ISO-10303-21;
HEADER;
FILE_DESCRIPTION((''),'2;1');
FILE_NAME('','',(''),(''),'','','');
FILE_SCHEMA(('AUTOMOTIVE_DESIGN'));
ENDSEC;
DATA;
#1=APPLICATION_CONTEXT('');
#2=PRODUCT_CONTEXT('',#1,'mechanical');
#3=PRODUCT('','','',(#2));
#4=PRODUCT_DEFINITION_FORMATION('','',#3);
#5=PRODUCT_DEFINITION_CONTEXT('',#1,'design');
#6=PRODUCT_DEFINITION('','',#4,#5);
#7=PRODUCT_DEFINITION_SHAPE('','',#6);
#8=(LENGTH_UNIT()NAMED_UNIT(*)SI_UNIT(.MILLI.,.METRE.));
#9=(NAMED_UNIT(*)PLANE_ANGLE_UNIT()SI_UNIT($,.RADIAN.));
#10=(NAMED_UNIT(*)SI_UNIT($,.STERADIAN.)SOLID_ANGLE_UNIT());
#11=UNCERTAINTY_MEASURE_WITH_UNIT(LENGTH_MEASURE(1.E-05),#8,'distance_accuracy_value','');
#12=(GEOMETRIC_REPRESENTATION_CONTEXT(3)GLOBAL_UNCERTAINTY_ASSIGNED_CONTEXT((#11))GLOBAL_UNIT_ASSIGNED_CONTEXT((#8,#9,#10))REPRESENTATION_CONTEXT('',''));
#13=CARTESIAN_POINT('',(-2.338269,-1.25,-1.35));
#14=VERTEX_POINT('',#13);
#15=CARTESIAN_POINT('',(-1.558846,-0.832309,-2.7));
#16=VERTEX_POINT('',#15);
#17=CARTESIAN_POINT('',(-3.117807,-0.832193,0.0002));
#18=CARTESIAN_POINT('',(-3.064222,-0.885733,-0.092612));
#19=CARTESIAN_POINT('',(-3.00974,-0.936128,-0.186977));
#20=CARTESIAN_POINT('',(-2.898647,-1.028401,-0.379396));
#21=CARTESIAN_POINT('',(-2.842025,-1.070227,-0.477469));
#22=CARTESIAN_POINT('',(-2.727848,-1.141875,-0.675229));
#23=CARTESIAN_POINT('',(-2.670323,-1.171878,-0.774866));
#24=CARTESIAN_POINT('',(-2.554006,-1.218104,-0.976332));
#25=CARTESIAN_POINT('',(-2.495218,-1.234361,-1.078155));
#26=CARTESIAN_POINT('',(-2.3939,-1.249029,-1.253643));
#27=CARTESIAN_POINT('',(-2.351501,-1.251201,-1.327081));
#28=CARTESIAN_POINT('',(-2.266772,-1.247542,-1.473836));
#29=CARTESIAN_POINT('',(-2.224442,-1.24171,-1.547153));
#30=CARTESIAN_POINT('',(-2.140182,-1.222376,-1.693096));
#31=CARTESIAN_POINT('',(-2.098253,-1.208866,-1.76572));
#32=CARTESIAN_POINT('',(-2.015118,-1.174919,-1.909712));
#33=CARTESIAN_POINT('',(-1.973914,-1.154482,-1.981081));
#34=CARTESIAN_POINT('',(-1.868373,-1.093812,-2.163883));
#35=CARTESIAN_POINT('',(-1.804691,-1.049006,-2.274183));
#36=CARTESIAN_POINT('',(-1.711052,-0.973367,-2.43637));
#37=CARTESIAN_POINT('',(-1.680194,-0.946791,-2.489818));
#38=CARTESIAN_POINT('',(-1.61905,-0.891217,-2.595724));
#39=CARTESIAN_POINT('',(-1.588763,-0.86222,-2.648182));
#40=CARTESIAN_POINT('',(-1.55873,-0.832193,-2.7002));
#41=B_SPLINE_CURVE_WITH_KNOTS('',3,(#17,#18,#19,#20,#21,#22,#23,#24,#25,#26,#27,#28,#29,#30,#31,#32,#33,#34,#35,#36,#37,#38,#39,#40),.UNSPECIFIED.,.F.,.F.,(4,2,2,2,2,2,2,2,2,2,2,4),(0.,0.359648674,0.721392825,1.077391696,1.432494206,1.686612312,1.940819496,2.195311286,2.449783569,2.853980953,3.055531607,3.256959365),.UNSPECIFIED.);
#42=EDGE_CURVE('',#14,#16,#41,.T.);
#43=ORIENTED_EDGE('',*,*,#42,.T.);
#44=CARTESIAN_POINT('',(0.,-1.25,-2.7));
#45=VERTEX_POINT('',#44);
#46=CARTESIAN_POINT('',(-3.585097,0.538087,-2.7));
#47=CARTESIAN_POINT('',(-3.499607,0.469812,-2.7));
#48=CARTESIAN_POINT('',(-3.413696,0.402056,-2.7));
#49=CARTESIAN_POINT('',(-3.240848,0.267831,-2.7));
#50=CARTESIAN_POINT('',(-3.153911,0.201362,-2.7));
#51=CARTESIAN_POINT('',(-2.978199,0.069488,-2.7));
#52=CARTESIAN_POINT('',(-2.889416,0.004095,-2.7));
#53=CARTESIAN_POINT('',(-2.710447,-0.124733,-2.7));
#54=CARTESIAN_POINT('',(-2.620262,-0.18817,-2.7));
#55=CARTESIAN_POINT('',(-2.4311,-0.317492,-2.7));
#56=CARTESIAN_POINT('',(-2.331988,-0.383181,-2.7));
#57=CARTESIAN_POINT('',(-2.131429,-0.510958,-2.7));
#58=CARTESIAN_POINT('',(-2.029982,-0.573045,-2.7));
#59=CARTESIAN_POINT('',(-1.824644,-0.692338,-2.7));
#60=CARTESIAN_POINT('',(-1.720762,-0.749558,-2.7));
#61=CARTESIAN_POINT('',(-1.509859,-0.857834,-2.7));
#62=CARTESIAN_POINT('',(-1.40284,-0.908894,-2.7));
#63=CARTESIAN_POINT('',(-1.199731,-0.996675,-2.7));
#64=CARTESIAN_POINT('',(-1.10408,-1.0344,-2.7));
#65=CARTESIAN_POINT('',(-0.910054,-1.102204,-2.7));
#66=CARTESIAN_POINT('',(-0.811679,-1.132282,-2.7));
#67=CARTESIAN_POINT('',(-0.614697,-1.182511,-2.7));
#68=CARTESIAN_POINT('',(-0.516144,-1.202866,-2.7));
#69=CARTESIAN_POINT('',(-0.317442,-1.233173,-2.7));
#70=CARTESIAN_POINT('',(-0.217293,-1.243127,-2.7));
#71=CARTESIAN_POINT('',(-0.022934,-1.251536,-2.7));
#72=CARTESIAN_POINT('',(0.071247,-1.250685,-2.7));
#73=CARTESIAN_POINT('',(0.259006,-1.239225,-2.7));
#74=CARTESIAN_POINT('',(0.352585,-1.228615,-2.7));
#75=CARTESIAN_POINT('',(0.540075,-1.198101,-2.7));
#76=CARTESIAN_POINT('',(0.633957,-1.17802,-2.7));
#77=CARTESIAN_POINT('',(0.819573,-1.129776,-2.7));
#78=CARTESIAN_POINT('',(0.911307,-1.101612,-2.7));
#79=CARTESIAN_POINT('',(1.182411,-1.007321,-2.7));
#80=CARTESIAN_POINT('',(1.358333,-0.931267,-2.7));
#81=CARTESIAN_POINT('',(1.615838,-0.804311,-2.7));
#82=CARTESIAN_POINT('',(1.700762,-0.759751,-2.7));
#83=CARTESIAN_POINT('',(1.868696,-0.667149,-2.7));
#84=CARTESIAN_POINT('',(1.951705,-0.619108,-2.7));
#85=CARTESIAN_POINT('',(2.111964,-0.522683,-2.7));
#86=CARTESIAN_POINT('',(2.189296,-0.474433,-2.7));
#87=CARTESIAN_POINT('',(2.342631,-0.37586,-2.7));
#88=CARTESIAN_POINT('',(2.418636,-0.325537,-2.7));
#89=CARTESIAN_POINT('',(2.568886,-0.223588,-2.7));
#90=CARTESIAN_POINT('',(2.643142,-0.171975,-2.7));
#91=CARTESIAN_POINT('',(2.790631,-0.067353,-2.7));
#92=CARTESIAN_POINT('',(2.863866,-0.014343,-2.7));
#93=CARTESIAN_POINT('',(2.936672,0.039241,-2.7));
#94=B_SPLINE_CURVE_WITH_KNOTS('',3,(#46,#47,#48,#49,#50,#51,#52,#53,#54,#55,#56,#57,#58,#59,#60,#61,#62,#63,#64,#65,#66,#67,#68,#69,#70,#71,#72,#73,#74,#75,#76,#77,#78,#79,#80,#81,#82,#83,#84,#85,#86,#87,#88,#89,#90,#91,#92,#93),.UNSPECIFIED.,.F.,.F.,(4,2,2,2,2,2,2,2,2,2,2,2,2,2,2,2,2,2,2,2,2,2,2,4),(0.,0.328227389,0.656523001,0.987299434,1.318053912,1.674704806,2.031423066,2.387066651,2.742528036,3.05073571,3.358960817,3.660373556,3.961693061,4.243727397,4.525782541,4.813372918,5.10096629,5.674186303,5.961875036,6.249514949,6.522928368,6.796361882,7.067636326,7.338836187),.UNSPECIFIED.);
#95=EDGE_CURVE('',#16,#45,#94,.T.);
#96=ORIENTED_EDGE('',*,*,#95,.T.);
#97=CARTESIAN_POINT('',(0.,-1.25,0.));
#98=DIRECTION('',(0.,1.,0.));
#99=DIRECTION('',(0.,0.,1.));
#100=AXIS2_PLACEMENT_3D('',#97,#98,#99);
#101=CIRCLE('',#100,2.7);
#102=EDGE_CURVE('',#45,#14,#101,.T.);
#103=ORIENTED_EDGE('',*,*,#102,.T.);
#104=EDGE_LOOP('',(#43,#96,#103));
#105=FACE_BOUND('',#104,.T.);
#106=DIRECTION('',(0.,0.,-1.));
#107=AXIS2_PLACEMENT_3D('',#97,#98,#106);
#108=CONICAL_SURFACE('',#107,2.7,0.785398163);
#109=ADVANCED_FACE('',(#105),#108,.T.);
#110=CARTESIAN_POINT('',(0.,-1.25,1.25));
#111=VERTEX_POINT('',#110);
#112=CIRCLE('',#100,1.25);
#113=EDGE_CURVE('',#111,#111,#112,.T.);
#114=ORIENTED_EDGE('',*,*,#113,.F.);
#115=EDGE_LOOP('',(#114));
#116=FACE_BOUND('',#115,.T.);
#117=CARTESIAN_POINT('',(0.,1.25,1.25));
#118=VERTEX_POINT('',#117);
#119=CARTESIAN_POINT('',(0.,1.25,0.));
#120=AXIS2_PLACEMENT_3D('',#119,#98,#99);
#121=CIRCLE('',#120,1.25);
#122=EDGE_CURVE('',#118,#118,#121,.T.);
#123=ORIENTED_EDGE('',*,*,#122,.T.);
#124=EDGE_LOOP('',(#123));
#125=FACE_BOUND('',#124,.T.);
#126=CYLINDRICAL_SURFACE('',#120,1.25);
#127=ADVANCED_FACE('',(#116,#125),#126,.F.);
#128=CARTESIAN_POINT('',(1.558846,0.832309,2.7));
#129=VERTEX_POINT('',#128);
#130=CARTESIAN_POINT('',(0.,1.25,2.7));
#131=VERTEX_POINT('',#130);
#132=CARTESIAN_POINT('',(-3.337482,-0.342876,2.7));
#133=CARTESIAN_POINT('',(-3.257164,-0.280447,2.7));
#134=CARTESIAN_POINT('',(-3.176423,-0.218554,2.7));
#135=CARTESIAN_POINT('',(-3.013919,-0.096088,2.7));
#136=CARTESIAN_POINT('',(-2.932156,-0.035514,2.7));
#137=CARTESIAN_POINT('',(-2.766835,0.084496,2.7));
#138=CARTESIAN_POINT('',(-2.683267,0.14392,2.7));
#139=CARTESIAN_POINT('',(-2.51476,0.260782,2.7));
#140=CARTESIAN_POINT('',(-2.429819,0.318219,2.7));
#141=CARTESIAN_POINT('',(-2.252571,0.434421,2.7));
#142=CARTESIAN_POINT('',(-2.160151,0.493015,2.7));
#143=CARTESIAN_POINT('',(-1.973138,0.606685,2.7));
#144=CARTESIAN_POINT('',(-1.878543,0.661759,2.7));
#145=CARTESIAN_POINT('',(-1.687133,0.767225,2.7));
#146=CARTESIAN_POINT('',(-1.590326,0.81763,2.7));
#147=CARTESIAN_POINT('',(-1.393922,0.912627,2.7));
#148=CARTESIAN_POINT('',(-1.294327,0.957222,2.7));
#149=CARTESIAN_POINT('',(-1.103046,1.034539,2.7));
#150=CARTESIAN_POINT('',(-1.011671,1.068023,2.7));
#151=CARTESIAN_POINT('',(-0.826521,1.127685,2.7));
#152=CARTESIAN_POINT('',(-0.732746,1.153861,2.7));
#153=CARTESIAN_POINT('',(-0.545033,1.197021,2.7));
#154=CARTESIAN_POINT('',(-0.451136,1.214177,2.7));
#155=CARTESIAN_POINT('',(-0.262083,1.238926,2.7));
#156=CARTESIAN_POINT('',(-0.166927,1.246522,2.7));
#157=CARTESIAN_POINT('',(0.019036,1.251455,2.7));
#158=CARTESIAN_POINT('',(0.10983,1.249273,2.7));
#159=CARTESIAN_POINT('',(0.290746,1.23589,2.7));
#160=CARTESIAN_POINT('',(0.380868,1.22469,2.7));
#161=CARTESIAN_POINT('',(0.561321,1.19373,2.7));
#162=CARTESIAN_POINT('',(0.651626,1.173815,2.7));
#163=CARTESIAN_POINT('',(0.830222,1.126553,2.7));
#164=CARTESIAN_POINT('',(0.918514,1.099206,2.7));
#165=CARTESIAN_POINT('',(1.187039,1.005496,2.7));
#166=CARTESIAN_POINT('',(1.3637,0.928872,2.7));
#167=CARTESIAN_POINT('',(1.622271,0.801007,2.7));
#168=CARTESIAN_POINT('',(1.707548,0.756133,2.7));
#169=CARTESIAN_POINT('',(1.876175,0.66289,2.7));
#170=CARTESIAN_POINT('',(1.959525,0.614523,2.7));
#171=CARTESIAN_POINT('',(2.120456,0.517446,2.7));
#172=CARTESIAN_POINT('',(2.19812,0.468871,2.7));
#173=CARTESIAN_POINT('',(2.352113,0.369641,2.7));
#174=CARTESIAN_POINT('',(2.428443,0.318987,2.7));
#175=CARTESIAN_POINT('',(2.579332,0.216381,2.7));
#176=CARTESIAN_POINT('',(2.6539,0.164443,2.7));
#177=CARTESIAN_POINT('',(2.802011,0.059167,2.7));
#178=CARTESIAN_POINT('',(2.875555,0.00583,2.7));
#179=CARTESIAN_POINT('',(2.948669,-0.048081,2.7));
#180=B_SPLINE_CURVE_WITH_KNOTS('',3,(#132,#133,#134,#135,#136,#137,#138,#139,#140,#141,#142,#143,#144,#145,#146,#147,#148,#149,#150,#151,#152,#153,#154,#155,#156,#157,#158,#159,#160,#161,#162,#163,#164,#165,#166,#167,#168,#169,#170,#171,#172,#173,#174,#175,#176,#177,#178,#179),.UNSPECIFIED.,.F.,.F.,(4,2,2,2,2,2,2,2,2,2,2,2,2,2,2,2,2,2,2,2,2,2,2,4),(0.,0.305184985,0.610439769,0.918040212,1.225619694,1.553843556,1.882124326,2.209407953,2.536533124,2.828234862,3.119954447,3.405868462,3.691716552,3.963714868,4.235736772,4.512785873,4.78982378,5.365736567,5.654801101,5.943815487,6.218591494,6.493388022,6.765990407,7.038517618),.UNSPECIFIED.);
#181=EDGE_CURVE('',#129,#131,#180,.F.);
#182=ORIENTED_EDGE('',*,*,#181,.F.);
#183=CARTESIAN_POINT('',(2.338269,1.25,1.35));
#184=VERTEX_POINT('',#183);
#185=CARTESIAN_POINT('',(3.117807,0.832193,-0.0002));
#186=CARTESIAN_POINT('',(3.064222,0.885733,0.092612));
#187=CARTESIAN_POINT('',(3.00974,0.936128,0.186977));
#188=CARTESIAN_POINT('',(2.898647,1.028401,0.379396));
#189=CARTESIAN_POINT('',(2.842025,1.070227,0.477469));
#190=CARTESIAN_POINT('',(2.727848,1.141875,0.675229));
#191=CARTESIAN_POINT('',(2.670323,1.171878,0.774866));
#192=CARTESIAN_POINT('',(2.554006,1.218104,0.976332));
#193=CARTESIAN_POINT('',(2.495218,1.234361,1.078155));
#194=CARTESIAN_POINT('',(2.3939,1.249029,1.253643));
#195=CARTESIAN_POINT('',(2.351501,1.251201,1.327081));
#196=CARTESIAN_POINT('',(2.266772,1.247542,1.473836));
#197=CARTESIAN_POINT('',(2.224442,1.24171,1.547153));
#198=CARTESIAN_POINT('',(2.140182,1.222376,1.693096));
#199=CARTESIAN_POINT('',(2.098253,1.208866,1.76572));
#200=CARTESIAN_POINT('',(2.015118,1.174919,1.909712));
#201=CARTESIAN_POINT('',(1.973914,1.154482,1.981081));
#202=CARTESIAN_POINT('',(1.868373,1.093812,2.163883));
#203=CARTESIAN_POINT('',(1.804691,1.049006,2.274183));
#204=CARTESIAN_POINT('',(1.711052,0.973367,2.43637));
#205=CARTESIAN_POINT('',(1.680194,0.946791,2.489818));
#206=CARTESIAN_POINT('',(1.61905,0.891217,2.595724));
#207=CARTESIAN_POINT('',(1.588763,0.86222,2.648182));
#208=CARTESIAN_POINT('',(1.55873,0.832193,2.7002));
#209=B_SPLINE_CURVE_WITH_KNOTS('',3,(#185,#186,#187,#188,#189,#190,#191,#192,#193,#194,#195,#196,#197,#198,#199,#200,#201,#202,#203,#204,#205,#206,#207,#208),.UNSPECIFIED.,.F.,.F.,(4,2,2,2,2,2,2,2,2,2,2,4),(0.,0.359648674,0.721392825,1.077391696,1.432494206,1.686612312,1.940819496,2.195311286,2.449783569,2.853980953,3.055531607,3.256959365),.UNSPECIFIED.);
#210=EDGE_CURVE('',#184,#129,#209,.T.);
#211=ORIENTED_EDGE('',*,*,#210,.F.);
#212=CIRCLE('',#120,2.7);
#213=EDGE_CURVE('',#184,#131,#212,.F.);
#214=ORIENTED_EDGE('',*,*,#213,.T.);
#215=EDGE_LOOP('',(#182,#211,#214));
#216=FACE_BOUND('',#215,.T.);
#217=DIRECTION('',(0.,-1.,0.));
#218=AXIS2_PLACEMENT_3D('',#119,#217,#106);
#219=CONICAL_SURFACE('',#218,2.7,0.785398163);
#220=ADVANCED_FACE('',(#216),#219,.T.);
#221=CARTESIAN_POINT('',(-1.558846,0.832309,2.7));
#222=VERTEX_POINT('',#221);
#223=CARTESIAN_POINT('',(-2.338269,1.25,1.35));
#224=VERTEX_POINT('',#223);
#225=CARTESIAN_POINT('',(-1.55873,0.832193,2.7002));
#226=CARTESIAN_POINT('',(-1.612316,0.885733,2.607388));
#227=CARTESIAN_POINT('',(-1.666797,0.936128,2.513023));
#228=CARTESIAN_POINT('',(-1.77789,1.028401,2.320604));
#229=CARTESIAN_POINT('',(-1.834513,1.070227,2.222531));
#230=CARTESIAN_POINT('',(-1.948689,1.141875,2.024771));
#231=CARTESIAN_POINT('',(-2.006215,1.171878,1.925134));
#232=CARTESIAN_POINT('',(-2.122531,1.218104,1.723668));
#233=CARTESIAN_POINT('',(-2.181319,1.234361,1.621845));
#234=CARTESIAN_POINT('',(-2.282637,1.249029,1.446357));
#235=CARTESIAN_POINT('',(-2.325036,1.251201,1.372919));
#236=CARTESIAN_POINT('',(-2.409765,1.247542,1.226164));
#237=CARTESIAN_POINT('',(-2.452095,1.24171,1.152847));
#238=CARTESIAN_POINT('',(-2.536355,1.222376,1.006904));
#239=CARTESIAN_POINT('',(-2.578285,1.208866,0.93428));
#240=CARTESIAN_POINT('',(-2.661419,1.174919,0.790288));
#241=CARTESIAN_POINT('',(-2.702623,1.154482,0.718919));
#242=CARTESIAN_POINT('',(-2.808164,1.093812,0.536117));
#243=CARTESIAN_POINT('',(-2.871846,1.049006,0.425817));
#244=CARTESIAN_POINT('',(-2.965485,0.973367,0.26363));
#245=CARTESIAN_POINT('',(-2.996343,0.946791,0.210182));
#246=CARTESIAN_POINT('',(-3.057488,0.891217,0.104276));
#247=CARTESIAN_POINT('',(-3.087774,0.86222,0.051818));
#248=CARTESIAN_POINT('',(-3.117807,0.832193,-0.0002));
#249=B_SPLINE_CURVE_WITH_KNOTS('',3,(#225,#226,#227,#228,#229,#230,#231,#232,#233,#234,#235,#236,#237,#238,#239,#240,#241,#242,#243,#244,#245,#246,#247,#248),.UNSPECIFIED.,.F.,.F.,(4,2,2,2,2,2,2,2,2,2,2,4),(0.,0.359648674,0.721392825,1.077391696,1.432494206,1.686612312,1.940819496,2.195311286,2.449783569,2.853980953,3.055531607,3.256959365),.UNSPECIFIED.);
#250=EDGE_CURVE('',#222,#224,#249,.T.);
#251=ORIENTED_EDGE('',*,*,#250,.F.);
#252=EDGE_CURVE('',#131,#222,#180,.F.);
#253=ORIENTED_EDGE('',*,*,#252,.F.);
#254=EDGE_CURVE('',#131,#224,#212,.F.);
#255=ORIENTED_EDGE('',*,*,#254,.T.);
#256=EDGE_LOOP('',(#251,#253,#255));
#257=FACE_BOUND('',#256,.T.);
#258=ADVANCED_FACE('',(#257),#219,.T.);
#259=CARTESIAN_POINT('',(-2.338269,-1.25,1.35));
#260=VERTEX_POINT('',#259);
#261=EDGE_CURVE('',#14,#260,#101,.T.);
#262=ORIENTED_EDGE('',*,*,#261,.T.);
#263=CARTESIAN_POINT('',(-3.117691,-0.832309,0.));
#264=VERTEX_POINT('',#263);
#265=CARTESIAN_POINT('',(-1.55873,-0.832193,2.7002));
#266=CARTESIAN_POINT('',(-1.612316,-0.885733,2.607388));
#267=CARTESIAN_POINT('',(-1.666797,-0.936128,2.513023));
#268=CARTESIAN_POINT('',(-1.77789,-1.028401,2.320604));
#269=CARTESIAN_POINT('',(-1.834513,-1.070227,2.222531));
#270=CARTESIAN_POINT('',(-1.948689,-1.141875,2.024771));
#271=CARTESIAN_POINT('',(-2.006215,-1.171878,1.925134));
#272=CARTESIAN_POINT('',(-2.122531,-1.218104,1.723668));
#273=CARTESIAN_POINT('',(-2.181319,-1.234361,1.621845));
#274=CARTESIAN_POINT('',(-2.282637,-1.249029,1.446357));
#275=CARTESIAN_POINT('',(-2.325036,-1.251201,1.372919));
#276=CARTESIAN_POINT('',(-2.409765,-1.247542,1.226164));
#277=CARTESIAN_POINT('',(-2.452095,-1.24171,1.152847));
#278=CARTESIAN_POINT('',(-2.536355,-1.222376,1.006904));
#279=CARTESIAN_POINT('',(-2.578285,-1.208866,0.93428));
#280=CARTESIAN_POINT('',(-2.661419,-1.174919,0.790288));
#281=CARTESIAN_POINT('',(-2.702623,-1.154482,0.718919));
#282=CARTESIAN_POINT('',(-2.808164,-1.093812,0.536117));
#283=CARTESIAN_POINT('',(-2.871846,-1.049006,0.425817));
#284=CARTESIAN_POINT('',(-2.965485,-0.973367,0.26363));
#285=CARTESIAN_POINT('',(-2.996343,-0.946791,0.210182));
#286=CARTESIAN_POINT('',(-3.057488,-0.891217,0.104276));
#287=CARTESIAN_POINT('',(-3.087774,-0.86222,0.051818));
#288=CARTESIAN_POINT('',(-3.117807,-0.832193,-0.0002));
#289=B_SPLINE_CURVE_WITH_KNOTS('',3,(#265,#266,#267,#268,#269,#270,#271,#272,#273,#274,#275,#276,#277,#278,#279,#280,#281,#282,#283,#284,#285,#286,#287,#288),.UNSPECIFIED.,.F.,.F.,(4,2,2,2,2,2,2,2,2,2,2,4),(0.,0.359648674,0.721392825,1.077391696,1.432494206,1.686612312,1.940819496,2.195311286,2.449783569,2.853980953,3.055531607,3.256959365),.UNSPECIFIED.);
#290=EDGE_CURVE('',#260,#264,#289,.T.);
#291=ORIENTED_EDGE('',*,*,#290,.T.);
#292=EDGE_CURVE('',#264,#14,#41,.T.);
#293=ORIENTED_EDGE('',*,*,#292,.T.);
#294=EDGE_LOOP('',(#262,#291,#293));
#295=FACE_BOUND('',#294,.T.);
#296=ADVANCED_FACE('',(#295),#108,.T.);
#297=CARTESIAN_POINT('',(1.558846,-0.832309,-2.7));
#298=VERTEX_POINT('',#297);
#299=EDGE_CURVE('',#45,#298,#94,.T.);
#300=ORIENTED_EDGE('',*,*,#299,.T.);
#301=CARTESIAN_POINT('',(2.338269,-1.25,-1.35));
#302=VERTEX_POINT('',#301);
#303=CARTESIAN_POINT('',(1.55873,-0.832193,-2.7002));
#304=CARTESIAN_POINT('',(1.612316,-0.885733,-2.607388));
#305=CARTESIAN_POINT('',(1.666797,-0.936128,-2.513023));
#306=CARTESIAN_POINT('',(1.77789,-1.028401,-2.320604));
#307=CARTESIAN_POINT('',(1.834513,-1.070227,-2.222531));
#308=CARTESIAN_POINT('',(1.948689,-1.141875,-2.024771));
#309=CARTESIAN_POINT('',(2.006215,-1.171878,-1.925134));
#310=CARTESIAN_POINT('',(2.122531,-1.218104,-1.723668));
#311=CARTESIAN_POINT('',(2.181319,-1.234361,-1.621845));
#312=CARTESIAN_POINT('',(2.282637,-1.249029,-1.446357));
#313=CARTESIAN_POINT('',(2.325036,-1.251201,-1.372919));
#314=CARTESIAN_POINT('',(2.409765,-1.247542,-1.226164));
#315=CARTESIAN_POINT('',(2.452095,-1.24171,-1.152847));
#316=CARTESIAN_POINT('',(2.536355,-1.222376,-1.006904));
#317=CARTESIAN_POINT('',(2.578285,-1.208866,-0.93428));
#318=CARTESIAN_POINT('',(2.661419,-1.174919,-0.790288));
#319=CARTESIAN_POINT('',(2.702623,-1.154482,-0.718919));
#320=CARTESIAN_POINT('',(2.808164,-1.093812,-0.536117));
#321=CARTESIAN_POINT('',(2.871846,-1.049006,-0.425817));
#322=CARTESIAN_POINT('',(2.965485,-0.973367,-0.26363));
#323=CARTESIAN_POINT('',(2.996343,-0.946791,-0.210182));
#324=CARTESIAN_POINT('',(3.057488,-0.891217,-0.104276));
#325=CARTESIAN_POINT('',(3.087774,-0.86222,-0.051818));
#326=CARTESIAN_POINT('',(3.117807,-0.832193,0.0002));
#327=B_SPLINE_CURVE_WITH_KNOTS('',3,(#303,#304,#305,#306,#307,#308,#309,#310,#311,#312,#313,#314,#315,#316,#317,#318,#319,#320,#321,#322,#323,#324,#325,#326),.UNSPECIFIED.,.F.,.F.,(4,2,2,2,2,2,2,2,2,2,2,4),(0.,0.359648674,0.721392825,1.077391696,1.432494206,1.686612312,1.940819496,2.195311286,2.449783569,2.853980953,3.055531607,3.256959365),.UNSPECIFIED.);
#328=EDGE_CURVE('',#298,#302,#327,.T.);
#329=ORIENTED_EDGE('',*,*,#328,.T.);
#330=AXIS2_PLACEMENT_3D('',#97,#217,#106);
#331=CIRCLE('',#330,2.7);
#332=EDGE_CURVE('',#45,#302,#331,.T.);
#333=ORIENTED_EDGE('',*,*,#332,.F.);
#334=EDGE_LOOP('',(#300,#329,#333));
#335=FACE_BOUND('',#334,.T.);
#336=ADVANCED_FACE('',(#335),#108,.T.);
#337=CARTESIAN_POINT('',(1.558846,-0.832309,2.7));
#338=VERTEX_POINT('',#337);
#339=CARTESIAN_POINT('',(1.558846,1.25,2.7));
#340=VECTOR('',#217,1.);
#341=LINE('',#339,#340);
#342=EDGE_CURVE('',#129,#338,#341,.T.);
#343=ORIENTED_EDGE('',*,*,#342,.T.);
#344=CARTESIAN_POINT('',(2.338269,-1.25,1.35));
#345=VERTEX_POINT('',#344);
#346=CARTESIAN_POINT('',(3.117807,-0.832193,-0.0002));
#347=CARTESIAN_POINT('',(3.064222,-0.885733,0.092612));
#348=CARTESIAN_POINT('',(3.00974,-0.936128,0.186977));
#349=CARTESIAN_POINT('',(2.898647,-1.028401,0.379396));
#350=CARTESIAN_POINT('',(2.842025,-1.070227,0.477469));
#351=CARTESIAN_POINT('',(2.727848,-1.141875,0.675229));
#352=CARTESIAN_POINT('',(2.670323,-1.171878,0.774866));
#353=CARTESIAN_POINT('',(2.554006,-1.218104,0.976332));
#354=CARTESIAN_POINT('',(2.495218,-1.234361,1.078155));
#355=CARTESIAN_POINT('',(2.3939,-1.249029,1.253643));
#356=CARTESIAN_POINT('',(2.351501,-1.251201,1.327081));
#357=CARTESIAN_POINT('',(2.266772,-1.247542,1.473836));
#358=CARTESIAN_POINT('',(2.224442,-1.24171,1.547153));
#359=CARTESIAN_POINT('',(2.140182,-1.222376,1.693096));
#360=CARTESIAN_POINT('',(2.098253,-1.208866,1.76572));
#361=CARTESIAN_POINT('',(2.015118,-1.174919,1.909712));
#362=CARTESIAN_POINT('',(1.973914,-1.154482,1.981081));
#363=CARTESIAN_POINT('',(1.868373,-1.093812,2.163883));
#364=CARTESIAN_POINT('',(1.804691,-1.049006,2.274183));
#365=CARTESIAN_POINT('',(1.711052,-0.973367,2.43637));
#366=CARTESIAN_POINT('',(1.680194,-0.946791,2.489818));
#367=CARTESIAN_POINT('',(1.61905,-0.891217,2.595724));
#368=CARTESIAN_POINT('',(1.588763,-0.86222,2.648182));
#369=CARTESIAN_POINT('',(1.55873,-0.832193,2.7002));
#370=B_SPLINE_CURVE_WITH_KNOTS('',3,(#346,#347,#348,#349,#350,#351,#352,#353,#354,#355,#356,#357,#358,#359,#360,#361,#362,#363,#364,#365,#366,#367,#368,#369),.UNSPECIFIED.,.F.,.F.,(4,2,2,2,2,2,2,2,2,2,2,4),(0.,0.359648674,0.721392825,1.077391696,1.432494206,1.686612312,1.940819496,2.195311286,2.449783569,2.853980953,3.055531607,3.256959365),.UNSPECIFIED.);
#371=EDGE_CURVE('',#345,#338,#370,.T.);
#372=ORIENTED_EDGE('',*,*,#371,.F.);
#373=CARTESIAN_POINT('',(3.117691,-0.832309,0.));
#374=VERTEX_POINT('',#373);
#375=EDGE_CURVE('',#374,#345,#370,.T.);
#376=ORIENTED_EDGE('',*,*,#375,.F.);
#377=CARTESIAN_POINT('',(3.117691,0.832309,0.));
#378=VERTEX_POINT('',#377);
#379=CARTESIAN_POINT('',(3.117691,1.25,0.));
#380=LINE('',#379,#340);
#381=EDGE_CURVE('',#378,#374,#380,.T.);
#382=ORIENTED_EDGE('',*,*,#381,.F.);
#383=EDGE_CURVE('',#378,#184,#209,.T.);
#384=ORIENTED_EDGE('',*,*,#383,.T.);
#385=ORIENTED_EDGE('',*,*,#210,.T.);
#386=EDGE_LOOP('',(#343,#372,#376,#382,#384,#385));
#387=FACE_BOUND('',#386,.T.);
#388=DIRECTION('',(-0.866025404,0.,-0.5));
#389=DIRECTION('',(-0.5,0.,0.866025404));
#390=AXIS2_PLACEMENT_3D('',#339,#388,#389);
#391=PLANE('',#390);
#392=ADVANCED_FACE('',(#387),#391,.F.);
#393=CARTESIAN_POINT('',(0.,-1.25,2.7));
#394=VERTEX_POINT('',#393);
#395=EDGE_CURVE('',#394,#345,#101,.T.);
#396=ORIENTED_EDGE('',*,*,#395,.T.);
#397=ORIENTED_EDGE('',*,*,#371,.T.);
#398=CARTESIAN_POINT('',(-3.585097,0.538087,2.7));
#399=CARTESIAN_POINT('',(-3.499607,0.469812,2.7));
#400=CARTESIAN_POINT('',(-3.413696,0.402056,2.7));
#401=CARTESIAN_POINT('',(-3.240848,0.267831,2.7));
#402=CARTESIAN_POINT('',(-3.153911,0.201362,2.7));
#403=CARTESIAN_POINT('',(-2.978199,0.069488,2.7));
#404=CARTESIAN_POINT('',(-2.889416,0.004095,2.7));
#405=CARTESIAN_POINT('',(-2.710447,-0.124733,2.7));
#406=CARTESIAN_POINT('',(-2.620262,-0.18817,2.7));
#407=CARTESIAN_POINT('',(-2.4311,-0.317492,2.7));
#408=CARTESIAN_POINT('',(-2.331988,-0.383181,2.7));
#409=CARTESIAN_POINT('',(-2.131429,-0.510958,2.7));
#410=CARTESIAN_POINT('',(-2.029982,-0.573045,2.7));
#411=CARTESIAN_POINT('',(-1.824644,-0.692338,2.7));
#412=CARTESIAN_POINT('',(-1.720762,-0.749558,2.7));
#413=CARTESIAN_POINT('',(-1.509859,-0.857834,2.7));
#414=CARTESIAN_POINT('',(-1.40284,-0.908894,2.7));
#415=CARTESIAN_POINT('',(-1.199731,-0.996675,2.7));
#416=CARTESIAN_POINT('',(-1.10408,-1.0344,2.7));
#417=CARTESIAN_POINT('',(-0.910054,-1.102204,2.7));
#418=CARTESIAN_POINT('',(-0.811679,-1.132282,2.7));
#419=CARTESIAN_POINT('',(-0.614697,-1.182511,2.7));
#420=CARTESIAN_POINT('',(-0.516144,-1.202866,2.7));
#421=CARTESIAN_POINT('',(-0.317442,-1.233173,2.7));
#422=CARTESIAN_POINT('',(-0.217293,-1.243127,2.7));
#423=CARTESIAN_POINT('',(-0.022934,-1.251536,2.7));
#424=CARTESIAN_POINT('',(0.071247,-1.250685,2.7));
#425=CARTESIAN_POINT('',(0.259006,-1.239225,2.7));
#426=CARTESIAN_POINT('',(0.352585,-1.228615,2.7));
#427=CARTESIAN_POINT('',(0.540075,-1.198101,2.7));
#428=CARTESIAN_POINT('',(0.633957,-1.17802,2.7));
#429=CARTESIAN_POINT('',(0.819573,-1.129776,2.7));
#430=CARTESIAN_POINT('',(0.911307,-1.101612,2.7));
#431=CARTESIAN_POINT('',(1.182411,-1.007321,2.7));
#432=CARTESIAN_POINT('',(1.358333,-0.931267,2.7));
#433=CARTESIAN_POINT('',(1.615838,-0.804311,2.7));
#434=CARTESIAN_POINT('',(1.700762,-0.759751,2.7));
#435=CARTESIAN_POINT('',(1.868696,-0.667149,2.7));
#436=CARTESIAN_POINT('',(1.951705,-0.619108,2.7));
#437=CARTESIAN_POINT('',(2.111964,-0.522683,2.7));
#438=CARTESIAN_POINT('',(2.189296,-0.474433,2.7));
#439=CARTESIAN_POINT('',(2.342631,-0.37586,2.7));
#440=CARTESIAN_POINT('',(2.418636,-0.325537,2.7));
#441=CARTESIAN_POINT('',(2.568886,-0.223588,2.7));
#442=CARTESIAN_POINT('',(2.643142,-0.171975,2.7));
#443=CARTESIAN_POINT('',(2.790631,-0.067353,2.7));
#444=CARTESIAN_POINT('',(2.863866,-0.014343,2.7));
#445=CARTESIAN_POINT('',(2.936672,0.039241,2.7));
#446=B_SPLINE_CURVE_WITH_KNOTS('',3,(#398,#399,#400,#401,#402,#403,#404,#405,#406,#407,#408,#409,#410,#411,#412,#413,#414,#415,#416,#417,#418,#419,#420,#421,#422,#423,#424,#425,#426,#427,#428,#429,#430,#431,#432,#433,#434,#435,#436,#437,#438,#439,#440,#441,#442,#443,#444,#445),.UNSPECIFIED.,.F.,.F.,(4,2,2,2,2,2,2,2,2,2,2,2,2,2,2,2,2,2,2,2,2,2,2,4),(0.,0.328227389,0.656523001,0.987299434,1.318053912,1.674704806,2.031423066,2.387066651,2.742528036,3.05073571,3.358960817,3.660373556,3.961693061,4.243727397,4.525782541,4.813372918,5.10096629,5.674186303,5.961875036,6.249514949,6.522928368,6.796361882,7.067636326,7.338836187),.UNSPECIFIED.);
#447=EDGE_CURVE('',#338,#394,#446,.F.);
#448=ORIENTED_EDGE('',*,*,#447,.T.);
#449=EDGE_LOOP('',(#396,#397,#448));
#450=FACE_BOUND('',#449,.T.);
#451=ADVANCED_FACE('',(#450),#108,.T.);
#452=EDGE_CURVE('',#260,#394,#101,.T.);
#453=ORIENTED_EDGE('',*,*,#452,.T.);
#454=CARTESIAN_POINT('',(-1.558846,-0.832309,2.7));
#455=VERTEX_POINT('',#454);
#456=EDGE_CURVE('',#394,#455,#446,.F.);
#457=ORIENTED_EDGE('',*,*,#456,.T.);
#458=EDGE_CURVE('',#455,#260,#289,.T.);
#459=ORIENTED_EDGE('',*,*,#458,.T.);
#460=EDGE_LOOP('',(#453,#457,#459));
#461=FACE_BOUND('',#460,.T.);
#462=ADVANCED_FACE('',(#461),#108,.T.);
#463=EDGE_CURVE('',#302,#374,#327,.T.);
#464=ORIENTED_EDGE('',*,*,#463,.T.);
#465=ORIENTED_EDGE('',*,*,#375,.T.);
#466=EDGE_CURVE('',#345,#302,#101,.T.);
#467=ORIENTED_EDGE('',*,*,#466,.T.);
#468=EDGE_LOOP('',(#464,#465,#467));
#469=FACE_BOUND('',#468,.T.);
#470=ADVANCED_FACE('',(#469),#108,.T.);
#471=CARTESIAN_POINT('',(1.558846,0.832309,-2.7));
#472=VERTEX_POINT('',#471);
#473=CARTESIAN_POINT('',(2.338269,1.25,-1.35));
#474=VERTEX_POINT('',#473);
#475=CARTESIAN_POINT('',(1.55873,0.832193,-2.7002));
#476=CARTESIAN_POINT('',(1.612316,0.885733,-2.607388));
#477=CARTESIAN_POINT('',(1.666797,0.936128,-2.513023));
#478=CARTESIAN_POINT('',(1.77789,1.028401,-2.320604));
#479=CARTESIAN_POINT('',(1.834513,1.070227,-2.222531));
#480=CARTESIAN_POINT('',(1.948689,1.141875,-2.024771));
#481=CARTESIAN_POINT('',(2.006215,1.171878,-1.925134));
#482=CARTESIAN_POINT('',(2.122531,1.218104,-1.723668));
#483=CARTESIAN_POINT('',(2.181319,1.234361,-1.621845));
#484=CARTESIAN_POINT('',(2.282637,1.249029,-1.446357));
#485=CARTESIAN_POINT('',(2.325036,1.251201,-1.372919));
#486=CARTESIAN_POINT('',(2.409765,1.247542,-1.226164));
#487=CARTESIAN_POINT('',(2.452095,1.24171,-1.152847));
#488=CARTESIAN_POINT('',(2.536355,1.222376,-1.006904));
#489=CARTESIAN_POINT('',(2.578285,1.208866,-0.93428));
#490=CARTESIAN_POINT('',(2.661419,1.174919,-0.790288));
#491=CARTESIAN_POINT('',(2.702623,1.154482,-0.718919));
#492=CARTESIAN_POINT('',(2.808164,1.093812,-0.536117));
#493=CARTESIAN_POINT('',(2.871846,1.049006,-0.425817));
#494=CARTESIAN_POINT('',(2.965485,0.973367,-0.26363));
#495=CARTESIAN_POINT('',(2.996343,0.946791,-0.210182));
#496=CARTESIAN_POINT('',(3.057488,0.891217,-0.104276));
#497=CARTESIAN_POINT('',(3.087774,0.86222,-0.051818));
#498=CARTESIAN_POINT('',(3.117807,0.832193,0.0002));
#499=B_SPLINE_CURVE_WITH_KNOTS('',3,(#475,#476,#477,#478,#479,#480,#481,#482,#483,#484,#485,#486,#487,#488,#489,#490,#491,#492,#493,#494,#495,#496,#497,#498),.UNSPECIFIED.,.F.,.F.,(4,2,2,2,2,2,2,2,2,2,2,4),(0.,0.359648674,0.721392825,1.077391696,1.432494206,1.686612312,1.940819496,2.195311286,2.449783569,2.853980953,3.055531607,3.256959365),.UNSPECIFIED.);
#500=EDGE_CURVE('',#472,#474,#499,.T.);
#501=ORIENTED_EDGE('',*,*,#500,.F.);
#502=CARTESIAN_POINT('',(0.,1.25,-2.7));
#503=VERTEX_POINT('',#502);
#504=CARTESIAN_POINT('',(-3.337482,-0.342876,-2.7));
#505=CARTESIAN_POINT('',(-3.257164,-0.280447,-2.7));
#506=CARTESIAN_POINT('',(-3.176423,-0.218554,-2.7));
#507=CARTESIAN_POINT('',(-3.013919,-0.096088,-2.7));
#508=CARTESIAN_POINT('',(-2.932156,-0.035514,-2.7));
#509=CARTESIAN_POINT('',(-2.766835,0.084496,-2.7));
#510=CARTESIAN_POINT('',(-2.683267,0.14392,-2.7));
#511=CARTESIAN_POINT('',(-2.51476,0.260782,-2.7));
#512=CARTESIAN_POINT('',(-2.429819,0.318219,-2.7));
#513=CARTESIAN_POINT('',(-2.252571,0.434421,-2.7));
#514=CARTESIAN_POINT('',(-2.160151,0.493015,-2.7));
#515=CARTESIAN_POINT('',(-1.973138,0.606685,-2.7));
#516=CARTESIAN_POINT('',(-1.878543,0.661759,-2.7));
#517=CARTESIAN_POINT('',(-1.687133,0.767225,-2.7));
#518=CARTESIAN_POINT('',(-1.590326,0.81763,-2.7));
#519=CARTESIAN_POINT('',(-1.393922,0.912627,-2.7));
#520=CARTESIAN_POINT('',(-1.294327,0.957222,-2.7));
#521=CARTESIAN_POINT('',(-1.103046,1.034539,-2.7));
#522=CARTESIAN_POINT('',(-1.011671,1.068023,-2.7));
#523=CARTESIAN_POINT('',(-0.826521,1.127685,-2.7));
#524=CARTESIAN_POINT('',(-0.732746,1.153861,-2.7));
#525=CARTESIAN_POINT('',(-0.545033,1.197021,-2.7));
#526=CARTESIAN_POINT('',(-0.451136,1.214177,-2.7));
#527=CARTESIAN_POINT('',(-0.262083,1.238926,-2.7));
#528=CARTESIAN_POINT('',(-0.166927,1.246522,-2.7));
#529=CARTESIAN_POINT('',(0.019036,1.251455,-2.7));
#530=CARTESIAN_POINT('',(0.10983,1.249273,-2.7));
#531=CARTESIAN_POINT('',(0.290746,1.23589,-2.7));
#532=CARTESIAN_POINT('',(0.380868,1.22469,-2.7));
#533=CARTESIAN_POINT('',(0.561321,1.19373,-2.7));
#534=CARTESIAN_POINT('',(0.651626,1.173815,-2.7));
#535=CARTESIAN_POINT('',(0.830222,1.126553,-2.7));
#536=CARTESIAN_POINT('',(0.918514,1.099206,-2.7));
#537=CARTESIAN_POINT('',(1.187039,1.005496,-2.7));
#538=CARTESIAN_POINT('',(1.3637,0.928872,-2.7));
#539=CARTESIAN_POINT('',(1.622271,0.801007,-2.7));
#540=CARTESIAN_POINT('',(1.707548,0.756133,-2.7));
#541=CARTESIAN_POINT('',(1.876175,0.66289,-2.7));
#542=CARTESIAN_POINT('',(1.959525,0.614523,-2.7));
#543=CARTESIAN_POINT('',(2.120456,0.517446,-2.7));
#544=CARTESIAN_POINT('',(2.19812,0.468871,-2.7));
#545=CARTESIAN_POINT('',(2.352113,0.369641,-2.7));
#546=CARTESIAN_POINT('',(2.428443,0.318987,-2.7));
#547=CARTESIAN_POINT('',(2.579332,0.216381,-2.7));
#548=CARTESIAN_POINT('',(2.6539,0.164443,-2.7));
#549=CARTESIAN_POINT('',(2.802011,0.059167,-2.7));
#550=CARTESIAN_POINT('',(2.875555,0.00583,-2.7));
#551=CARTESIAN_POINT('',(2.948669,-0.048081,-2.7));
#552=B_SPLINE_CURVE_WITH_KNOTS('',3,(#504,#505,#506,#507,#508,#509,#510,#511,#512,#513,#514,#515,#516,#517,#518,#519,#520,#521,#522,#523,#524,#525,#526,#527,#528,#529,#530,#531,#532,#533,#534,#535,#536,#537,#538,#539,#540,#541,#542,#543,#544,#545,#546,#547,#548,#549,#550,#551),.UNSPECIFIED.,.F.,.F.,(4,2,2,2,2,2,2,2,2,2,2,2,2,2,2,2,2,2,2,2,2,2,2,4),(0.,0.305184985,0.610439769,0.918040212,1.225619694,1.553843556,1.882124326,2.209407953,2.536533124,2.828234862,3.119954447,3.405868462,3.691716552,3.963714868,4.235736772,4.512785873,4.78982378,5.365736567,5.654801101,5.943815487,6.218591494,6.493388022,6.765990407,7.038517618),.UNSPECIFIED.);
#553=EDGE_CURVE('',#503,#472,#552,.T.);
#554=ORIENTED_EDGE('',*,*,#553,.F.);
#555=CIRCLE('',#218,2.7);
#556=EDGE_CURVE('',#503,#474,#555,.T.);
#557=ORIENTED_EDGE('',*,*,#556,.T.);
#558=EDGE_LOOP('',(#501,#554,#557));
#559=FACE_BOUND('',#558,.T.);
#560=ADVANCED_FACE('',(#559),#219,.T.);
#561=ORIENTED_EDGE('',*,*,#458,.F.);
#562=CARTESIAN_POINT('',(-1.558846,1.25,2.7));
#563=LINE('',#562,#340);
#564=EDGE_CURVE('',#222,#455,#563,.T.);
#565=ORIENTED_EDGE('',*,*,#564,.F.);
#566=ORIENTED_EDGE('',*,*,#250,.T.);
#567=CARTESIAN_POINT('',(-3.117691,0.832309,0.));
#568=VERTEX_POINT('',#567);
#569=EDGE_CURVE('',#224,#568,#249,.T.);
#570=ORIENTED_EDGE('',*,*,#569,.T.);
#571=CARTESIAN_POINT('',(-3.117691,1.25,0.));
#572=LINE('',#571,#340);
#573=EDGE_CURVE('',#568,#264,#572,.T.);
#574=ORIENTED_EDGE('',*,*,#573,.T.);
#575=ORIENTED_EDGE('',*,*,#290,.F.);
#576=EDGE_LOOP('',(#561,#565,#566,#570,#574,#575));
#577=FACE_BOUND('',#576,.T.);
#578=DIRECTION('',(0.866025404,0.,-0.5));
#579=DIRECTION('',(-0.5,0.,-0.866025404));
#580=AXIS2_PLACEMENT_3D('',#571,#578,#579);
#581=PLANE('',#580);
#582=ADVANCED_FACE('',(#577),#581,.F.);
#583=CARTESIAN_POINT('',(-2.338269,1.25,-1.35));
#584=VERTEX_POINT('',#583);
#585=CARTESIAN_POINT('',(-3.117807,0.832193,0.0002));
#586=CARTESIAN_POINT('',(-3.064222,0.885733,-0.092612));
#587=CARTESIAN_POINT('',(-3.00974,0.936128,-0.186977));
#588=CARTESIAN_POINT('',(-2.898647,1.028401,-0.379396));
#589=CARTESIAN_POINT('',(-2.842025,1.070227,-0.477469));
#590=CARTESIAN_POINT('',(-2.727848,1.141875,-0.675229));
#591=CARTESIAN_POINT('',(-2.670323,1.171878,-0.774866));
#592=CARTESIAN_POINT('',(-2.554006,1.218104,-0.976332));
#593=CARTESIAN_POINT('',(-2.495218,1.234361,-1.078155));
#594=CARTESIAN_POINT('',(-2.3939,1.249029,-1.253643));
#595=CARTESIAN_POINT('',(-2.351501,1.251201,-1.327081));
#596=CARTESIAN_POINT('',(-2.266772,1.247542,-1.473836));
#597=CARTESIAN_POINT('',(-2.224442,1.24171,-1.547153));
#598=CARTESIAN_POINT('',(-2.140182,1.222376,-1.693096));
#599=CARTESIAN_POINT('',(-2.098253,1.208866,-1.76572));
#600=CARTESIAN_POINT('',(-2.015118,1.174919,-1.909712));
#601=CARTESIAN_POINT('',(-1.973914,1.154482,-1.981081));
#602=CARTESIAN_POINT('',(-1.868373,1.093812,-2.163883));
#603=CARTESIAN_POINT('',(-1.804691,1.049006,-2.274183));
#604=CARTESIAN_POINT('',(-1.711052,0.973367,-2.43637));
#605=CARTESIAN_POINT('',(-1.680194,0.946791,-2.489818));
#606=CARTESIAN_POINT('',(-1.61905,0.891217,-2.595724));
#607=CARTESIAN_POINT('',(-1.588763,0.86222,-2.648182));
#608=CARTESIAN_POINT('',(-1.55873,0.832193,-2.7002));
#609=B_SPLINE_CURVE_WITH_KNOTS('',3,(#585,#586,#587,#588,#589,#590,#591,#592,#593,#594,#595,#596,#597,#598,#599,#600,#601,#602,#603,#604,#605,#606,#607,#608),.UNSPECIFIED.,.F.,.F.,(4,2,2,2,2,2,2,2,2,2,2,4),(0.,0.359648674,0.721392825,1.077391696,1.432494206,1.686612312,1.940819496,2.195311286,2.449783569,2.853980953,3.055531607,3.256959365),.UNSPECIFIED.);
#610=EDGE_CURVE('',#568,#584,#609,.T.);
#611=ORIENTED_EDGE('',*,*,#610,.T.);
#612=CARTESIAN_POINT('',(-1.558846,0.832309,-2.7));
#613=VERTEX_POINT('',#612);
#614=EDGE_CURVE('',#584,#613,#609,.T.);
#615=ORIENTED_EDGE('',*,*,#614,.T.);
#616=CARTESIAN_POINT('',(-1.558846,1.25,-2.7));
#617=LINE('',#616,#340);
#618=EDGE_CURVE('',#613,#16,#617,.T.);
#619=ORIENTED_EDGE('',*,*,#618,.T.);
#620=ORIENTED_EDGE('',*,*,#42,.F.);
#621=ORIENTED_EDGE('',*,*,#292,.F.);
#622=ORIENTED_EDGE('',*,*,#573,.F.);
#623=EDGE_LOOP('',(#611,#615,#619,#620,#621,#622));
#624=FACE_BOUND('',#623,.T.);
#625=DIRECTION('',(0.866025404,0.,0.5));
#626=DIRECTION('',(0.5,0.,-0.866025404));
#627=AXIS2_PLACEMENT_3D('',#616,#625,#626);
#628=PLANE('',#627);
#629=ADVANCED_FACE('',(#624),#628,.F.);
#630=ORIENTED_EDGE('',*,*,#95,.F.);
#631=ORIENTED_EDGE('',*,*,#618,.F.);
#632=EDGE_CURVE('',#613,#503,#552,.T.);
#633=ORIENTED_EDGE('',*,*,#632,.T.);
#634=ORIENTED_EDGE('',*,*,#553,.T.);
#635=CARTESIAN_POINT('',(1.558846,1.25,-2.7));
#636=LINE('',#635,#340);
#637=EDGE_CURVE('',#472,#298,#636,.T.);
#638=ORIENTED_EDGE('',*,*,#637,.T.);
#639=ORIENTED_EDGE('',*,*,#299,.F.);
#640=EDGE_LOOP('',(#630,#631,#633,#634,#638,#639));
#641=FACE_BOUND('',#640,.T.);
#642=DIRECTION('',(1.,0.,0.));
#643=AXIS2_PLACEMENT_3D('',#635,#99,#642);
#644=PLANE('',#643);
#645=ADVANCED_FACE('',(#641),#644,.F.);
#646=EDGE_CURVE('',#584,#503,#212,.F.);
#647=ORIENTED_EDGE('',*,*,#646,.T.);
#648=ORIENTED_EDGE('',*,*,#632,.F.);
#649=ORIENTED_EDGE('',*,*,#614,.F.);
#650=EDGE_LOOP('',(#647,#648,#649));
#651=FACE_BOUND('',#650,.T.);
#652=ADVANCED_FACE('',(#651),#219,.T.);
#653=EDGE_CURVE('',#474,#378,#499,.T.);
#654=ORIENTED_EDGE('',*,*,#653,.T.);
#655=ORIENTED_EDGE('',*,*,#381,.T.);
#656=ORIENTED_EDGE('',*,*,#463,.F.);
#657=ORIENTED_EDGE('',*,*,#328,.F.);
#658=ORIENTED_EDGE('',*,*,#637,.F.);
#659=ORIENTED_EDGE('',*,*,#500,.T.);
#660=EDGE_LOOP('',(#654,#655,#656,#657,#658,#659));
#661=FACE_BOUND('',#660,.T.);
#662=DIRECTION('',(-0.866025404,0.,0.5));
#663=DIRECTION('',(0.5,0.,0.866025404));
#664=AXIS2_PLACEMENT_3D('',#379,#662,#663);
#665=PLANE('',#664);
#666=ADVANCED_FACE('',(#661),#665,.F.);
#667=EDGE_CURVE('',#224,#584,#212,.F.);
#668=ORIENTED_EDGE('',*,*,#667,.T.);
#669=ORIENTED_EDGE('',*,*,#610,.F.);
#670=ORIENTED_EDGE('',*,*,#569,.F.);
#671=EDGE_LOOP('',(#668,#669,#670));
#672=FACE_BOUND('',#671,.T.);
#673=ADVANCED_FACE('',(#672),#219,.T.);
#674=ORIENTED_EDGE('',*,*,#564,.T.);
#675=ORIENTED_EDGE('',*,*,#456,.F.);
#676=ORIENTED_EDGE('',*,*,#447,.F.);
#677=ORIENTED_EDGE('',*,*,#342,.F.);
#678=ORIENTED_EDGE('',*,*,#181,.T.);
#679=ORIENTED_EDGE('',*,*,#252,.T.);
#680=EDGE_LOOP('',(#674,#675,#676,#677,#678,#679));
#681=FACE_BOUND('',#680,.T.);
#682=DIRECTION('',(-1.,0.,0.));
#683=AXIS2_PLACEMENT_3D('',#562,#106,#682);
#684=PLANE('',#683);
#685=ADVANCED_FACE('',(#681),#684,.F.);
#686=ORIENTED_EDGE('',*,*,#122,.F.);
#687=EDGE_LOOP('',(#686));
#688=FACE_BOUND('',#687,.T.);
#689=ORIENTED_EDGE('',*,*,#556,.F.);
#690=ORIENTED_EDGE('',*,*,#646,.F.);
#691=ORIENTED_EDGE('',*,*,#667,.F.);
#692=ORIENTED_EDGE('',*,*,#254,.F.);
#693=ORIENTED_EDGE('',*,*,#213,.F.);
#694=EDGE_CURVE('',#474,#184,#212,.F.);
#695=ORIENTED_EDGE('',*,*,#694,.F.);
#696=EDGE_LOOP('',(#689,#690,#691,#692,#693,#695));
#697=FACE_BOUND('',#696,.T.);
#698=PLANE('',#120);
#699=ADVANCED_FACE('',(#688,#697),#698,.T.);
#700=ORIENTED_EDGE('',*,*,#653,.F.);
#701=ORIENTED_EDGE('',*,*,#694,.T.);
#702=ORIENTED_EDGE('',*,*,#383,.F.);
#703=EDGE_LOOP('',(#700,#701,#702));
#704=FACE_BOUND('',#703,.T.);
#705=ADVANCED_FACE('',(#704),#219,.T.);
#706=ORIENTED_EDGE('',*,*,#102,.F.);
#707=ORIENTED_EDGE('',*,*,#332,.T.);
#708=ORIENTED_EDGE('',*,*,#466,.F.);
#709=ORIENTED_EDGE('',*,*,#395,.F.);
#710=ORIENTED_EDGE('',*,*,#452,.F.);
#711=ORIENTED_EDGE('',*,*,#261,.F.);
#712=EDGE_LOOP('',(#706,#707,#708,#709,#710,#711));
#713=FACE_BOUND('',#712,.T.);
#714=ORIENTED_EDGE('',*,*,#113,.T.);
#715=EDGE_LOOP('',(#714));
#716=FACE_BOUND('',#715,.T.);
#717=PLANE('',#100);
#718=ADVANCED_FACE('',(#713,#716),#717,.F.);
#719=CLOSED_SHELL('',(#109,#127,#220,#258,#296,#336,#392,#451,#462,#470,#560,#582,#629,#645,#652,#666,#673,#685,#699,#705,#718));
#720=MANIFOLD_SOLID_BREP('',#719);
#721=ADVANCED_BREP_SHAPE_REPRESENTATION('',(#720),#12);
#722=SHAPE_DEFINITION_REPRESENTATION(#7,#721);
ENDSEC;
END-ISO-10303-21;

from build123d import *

# Parameters (mm, degrees)
BOSS_EXTRUDE1_DEPTH = 1.25
M3_TAPPED_HOLE1_D   = 2.5
SKETCH4_OUTSIDE_W   = 14.96
SKETCH4_OUTSIDE_H   = 14.124
SKETCH4_OUTSIDE_R   = 2.7
CUT_EXTRUDE1_DEPTH  = 2.5
CUT_EXTRUDE1_TAPER  = 45


with BuildPart() as part:
    # Sketch2 → Boss-Extrude1 (new body, symmetric)
    with BuildSketch(Plane(origin=(0, 0, 0), x_dir=(1, 0, 0), z_dir=(0, 1, 0))):
        Polygon((3.117691454, 0), (1.558845727, 2.7), (-1.558845727, 2.7), (-3.117691454, 0), (-1.558845727, -2.7), (1.558845727, -2.7), align=None)
    extrude(amount=BOSS_EXTRUDE1_DEPTH, both=True)

    # M3 Tapped Hole1 (through all)
    with Locations(Plane.ZX.offset(1.25)):
        with Locations((0, 0)):
            Hole(M3_TAPPED_HOLE1_D / 2)

    # Sketch4 outside → Cut-Extrude1 (cut)
    with BuildSketch(Plane.XZ.offset(1.25)):
        Rectangle(SKETCH4_OUTSIDE_W, SKETCH4_OUTSIDE_H)
        Circle(SKETCH4_OUTSIDE_R, mode=Mode.SUBTRACT)
    cut_extrude1 = extrude(amount=-CUT_EXTRUDE1_DEPTH, taper=CUT_EXTRUDE1_TAPER, mode=Mode.SUBTRACT)

    # Mirror1: Cut-Extrude1 across plane
    add(cut_extrude1.mirror(Plane.ZX), mode=Mode.SUBTRACT)


solid = part.part
